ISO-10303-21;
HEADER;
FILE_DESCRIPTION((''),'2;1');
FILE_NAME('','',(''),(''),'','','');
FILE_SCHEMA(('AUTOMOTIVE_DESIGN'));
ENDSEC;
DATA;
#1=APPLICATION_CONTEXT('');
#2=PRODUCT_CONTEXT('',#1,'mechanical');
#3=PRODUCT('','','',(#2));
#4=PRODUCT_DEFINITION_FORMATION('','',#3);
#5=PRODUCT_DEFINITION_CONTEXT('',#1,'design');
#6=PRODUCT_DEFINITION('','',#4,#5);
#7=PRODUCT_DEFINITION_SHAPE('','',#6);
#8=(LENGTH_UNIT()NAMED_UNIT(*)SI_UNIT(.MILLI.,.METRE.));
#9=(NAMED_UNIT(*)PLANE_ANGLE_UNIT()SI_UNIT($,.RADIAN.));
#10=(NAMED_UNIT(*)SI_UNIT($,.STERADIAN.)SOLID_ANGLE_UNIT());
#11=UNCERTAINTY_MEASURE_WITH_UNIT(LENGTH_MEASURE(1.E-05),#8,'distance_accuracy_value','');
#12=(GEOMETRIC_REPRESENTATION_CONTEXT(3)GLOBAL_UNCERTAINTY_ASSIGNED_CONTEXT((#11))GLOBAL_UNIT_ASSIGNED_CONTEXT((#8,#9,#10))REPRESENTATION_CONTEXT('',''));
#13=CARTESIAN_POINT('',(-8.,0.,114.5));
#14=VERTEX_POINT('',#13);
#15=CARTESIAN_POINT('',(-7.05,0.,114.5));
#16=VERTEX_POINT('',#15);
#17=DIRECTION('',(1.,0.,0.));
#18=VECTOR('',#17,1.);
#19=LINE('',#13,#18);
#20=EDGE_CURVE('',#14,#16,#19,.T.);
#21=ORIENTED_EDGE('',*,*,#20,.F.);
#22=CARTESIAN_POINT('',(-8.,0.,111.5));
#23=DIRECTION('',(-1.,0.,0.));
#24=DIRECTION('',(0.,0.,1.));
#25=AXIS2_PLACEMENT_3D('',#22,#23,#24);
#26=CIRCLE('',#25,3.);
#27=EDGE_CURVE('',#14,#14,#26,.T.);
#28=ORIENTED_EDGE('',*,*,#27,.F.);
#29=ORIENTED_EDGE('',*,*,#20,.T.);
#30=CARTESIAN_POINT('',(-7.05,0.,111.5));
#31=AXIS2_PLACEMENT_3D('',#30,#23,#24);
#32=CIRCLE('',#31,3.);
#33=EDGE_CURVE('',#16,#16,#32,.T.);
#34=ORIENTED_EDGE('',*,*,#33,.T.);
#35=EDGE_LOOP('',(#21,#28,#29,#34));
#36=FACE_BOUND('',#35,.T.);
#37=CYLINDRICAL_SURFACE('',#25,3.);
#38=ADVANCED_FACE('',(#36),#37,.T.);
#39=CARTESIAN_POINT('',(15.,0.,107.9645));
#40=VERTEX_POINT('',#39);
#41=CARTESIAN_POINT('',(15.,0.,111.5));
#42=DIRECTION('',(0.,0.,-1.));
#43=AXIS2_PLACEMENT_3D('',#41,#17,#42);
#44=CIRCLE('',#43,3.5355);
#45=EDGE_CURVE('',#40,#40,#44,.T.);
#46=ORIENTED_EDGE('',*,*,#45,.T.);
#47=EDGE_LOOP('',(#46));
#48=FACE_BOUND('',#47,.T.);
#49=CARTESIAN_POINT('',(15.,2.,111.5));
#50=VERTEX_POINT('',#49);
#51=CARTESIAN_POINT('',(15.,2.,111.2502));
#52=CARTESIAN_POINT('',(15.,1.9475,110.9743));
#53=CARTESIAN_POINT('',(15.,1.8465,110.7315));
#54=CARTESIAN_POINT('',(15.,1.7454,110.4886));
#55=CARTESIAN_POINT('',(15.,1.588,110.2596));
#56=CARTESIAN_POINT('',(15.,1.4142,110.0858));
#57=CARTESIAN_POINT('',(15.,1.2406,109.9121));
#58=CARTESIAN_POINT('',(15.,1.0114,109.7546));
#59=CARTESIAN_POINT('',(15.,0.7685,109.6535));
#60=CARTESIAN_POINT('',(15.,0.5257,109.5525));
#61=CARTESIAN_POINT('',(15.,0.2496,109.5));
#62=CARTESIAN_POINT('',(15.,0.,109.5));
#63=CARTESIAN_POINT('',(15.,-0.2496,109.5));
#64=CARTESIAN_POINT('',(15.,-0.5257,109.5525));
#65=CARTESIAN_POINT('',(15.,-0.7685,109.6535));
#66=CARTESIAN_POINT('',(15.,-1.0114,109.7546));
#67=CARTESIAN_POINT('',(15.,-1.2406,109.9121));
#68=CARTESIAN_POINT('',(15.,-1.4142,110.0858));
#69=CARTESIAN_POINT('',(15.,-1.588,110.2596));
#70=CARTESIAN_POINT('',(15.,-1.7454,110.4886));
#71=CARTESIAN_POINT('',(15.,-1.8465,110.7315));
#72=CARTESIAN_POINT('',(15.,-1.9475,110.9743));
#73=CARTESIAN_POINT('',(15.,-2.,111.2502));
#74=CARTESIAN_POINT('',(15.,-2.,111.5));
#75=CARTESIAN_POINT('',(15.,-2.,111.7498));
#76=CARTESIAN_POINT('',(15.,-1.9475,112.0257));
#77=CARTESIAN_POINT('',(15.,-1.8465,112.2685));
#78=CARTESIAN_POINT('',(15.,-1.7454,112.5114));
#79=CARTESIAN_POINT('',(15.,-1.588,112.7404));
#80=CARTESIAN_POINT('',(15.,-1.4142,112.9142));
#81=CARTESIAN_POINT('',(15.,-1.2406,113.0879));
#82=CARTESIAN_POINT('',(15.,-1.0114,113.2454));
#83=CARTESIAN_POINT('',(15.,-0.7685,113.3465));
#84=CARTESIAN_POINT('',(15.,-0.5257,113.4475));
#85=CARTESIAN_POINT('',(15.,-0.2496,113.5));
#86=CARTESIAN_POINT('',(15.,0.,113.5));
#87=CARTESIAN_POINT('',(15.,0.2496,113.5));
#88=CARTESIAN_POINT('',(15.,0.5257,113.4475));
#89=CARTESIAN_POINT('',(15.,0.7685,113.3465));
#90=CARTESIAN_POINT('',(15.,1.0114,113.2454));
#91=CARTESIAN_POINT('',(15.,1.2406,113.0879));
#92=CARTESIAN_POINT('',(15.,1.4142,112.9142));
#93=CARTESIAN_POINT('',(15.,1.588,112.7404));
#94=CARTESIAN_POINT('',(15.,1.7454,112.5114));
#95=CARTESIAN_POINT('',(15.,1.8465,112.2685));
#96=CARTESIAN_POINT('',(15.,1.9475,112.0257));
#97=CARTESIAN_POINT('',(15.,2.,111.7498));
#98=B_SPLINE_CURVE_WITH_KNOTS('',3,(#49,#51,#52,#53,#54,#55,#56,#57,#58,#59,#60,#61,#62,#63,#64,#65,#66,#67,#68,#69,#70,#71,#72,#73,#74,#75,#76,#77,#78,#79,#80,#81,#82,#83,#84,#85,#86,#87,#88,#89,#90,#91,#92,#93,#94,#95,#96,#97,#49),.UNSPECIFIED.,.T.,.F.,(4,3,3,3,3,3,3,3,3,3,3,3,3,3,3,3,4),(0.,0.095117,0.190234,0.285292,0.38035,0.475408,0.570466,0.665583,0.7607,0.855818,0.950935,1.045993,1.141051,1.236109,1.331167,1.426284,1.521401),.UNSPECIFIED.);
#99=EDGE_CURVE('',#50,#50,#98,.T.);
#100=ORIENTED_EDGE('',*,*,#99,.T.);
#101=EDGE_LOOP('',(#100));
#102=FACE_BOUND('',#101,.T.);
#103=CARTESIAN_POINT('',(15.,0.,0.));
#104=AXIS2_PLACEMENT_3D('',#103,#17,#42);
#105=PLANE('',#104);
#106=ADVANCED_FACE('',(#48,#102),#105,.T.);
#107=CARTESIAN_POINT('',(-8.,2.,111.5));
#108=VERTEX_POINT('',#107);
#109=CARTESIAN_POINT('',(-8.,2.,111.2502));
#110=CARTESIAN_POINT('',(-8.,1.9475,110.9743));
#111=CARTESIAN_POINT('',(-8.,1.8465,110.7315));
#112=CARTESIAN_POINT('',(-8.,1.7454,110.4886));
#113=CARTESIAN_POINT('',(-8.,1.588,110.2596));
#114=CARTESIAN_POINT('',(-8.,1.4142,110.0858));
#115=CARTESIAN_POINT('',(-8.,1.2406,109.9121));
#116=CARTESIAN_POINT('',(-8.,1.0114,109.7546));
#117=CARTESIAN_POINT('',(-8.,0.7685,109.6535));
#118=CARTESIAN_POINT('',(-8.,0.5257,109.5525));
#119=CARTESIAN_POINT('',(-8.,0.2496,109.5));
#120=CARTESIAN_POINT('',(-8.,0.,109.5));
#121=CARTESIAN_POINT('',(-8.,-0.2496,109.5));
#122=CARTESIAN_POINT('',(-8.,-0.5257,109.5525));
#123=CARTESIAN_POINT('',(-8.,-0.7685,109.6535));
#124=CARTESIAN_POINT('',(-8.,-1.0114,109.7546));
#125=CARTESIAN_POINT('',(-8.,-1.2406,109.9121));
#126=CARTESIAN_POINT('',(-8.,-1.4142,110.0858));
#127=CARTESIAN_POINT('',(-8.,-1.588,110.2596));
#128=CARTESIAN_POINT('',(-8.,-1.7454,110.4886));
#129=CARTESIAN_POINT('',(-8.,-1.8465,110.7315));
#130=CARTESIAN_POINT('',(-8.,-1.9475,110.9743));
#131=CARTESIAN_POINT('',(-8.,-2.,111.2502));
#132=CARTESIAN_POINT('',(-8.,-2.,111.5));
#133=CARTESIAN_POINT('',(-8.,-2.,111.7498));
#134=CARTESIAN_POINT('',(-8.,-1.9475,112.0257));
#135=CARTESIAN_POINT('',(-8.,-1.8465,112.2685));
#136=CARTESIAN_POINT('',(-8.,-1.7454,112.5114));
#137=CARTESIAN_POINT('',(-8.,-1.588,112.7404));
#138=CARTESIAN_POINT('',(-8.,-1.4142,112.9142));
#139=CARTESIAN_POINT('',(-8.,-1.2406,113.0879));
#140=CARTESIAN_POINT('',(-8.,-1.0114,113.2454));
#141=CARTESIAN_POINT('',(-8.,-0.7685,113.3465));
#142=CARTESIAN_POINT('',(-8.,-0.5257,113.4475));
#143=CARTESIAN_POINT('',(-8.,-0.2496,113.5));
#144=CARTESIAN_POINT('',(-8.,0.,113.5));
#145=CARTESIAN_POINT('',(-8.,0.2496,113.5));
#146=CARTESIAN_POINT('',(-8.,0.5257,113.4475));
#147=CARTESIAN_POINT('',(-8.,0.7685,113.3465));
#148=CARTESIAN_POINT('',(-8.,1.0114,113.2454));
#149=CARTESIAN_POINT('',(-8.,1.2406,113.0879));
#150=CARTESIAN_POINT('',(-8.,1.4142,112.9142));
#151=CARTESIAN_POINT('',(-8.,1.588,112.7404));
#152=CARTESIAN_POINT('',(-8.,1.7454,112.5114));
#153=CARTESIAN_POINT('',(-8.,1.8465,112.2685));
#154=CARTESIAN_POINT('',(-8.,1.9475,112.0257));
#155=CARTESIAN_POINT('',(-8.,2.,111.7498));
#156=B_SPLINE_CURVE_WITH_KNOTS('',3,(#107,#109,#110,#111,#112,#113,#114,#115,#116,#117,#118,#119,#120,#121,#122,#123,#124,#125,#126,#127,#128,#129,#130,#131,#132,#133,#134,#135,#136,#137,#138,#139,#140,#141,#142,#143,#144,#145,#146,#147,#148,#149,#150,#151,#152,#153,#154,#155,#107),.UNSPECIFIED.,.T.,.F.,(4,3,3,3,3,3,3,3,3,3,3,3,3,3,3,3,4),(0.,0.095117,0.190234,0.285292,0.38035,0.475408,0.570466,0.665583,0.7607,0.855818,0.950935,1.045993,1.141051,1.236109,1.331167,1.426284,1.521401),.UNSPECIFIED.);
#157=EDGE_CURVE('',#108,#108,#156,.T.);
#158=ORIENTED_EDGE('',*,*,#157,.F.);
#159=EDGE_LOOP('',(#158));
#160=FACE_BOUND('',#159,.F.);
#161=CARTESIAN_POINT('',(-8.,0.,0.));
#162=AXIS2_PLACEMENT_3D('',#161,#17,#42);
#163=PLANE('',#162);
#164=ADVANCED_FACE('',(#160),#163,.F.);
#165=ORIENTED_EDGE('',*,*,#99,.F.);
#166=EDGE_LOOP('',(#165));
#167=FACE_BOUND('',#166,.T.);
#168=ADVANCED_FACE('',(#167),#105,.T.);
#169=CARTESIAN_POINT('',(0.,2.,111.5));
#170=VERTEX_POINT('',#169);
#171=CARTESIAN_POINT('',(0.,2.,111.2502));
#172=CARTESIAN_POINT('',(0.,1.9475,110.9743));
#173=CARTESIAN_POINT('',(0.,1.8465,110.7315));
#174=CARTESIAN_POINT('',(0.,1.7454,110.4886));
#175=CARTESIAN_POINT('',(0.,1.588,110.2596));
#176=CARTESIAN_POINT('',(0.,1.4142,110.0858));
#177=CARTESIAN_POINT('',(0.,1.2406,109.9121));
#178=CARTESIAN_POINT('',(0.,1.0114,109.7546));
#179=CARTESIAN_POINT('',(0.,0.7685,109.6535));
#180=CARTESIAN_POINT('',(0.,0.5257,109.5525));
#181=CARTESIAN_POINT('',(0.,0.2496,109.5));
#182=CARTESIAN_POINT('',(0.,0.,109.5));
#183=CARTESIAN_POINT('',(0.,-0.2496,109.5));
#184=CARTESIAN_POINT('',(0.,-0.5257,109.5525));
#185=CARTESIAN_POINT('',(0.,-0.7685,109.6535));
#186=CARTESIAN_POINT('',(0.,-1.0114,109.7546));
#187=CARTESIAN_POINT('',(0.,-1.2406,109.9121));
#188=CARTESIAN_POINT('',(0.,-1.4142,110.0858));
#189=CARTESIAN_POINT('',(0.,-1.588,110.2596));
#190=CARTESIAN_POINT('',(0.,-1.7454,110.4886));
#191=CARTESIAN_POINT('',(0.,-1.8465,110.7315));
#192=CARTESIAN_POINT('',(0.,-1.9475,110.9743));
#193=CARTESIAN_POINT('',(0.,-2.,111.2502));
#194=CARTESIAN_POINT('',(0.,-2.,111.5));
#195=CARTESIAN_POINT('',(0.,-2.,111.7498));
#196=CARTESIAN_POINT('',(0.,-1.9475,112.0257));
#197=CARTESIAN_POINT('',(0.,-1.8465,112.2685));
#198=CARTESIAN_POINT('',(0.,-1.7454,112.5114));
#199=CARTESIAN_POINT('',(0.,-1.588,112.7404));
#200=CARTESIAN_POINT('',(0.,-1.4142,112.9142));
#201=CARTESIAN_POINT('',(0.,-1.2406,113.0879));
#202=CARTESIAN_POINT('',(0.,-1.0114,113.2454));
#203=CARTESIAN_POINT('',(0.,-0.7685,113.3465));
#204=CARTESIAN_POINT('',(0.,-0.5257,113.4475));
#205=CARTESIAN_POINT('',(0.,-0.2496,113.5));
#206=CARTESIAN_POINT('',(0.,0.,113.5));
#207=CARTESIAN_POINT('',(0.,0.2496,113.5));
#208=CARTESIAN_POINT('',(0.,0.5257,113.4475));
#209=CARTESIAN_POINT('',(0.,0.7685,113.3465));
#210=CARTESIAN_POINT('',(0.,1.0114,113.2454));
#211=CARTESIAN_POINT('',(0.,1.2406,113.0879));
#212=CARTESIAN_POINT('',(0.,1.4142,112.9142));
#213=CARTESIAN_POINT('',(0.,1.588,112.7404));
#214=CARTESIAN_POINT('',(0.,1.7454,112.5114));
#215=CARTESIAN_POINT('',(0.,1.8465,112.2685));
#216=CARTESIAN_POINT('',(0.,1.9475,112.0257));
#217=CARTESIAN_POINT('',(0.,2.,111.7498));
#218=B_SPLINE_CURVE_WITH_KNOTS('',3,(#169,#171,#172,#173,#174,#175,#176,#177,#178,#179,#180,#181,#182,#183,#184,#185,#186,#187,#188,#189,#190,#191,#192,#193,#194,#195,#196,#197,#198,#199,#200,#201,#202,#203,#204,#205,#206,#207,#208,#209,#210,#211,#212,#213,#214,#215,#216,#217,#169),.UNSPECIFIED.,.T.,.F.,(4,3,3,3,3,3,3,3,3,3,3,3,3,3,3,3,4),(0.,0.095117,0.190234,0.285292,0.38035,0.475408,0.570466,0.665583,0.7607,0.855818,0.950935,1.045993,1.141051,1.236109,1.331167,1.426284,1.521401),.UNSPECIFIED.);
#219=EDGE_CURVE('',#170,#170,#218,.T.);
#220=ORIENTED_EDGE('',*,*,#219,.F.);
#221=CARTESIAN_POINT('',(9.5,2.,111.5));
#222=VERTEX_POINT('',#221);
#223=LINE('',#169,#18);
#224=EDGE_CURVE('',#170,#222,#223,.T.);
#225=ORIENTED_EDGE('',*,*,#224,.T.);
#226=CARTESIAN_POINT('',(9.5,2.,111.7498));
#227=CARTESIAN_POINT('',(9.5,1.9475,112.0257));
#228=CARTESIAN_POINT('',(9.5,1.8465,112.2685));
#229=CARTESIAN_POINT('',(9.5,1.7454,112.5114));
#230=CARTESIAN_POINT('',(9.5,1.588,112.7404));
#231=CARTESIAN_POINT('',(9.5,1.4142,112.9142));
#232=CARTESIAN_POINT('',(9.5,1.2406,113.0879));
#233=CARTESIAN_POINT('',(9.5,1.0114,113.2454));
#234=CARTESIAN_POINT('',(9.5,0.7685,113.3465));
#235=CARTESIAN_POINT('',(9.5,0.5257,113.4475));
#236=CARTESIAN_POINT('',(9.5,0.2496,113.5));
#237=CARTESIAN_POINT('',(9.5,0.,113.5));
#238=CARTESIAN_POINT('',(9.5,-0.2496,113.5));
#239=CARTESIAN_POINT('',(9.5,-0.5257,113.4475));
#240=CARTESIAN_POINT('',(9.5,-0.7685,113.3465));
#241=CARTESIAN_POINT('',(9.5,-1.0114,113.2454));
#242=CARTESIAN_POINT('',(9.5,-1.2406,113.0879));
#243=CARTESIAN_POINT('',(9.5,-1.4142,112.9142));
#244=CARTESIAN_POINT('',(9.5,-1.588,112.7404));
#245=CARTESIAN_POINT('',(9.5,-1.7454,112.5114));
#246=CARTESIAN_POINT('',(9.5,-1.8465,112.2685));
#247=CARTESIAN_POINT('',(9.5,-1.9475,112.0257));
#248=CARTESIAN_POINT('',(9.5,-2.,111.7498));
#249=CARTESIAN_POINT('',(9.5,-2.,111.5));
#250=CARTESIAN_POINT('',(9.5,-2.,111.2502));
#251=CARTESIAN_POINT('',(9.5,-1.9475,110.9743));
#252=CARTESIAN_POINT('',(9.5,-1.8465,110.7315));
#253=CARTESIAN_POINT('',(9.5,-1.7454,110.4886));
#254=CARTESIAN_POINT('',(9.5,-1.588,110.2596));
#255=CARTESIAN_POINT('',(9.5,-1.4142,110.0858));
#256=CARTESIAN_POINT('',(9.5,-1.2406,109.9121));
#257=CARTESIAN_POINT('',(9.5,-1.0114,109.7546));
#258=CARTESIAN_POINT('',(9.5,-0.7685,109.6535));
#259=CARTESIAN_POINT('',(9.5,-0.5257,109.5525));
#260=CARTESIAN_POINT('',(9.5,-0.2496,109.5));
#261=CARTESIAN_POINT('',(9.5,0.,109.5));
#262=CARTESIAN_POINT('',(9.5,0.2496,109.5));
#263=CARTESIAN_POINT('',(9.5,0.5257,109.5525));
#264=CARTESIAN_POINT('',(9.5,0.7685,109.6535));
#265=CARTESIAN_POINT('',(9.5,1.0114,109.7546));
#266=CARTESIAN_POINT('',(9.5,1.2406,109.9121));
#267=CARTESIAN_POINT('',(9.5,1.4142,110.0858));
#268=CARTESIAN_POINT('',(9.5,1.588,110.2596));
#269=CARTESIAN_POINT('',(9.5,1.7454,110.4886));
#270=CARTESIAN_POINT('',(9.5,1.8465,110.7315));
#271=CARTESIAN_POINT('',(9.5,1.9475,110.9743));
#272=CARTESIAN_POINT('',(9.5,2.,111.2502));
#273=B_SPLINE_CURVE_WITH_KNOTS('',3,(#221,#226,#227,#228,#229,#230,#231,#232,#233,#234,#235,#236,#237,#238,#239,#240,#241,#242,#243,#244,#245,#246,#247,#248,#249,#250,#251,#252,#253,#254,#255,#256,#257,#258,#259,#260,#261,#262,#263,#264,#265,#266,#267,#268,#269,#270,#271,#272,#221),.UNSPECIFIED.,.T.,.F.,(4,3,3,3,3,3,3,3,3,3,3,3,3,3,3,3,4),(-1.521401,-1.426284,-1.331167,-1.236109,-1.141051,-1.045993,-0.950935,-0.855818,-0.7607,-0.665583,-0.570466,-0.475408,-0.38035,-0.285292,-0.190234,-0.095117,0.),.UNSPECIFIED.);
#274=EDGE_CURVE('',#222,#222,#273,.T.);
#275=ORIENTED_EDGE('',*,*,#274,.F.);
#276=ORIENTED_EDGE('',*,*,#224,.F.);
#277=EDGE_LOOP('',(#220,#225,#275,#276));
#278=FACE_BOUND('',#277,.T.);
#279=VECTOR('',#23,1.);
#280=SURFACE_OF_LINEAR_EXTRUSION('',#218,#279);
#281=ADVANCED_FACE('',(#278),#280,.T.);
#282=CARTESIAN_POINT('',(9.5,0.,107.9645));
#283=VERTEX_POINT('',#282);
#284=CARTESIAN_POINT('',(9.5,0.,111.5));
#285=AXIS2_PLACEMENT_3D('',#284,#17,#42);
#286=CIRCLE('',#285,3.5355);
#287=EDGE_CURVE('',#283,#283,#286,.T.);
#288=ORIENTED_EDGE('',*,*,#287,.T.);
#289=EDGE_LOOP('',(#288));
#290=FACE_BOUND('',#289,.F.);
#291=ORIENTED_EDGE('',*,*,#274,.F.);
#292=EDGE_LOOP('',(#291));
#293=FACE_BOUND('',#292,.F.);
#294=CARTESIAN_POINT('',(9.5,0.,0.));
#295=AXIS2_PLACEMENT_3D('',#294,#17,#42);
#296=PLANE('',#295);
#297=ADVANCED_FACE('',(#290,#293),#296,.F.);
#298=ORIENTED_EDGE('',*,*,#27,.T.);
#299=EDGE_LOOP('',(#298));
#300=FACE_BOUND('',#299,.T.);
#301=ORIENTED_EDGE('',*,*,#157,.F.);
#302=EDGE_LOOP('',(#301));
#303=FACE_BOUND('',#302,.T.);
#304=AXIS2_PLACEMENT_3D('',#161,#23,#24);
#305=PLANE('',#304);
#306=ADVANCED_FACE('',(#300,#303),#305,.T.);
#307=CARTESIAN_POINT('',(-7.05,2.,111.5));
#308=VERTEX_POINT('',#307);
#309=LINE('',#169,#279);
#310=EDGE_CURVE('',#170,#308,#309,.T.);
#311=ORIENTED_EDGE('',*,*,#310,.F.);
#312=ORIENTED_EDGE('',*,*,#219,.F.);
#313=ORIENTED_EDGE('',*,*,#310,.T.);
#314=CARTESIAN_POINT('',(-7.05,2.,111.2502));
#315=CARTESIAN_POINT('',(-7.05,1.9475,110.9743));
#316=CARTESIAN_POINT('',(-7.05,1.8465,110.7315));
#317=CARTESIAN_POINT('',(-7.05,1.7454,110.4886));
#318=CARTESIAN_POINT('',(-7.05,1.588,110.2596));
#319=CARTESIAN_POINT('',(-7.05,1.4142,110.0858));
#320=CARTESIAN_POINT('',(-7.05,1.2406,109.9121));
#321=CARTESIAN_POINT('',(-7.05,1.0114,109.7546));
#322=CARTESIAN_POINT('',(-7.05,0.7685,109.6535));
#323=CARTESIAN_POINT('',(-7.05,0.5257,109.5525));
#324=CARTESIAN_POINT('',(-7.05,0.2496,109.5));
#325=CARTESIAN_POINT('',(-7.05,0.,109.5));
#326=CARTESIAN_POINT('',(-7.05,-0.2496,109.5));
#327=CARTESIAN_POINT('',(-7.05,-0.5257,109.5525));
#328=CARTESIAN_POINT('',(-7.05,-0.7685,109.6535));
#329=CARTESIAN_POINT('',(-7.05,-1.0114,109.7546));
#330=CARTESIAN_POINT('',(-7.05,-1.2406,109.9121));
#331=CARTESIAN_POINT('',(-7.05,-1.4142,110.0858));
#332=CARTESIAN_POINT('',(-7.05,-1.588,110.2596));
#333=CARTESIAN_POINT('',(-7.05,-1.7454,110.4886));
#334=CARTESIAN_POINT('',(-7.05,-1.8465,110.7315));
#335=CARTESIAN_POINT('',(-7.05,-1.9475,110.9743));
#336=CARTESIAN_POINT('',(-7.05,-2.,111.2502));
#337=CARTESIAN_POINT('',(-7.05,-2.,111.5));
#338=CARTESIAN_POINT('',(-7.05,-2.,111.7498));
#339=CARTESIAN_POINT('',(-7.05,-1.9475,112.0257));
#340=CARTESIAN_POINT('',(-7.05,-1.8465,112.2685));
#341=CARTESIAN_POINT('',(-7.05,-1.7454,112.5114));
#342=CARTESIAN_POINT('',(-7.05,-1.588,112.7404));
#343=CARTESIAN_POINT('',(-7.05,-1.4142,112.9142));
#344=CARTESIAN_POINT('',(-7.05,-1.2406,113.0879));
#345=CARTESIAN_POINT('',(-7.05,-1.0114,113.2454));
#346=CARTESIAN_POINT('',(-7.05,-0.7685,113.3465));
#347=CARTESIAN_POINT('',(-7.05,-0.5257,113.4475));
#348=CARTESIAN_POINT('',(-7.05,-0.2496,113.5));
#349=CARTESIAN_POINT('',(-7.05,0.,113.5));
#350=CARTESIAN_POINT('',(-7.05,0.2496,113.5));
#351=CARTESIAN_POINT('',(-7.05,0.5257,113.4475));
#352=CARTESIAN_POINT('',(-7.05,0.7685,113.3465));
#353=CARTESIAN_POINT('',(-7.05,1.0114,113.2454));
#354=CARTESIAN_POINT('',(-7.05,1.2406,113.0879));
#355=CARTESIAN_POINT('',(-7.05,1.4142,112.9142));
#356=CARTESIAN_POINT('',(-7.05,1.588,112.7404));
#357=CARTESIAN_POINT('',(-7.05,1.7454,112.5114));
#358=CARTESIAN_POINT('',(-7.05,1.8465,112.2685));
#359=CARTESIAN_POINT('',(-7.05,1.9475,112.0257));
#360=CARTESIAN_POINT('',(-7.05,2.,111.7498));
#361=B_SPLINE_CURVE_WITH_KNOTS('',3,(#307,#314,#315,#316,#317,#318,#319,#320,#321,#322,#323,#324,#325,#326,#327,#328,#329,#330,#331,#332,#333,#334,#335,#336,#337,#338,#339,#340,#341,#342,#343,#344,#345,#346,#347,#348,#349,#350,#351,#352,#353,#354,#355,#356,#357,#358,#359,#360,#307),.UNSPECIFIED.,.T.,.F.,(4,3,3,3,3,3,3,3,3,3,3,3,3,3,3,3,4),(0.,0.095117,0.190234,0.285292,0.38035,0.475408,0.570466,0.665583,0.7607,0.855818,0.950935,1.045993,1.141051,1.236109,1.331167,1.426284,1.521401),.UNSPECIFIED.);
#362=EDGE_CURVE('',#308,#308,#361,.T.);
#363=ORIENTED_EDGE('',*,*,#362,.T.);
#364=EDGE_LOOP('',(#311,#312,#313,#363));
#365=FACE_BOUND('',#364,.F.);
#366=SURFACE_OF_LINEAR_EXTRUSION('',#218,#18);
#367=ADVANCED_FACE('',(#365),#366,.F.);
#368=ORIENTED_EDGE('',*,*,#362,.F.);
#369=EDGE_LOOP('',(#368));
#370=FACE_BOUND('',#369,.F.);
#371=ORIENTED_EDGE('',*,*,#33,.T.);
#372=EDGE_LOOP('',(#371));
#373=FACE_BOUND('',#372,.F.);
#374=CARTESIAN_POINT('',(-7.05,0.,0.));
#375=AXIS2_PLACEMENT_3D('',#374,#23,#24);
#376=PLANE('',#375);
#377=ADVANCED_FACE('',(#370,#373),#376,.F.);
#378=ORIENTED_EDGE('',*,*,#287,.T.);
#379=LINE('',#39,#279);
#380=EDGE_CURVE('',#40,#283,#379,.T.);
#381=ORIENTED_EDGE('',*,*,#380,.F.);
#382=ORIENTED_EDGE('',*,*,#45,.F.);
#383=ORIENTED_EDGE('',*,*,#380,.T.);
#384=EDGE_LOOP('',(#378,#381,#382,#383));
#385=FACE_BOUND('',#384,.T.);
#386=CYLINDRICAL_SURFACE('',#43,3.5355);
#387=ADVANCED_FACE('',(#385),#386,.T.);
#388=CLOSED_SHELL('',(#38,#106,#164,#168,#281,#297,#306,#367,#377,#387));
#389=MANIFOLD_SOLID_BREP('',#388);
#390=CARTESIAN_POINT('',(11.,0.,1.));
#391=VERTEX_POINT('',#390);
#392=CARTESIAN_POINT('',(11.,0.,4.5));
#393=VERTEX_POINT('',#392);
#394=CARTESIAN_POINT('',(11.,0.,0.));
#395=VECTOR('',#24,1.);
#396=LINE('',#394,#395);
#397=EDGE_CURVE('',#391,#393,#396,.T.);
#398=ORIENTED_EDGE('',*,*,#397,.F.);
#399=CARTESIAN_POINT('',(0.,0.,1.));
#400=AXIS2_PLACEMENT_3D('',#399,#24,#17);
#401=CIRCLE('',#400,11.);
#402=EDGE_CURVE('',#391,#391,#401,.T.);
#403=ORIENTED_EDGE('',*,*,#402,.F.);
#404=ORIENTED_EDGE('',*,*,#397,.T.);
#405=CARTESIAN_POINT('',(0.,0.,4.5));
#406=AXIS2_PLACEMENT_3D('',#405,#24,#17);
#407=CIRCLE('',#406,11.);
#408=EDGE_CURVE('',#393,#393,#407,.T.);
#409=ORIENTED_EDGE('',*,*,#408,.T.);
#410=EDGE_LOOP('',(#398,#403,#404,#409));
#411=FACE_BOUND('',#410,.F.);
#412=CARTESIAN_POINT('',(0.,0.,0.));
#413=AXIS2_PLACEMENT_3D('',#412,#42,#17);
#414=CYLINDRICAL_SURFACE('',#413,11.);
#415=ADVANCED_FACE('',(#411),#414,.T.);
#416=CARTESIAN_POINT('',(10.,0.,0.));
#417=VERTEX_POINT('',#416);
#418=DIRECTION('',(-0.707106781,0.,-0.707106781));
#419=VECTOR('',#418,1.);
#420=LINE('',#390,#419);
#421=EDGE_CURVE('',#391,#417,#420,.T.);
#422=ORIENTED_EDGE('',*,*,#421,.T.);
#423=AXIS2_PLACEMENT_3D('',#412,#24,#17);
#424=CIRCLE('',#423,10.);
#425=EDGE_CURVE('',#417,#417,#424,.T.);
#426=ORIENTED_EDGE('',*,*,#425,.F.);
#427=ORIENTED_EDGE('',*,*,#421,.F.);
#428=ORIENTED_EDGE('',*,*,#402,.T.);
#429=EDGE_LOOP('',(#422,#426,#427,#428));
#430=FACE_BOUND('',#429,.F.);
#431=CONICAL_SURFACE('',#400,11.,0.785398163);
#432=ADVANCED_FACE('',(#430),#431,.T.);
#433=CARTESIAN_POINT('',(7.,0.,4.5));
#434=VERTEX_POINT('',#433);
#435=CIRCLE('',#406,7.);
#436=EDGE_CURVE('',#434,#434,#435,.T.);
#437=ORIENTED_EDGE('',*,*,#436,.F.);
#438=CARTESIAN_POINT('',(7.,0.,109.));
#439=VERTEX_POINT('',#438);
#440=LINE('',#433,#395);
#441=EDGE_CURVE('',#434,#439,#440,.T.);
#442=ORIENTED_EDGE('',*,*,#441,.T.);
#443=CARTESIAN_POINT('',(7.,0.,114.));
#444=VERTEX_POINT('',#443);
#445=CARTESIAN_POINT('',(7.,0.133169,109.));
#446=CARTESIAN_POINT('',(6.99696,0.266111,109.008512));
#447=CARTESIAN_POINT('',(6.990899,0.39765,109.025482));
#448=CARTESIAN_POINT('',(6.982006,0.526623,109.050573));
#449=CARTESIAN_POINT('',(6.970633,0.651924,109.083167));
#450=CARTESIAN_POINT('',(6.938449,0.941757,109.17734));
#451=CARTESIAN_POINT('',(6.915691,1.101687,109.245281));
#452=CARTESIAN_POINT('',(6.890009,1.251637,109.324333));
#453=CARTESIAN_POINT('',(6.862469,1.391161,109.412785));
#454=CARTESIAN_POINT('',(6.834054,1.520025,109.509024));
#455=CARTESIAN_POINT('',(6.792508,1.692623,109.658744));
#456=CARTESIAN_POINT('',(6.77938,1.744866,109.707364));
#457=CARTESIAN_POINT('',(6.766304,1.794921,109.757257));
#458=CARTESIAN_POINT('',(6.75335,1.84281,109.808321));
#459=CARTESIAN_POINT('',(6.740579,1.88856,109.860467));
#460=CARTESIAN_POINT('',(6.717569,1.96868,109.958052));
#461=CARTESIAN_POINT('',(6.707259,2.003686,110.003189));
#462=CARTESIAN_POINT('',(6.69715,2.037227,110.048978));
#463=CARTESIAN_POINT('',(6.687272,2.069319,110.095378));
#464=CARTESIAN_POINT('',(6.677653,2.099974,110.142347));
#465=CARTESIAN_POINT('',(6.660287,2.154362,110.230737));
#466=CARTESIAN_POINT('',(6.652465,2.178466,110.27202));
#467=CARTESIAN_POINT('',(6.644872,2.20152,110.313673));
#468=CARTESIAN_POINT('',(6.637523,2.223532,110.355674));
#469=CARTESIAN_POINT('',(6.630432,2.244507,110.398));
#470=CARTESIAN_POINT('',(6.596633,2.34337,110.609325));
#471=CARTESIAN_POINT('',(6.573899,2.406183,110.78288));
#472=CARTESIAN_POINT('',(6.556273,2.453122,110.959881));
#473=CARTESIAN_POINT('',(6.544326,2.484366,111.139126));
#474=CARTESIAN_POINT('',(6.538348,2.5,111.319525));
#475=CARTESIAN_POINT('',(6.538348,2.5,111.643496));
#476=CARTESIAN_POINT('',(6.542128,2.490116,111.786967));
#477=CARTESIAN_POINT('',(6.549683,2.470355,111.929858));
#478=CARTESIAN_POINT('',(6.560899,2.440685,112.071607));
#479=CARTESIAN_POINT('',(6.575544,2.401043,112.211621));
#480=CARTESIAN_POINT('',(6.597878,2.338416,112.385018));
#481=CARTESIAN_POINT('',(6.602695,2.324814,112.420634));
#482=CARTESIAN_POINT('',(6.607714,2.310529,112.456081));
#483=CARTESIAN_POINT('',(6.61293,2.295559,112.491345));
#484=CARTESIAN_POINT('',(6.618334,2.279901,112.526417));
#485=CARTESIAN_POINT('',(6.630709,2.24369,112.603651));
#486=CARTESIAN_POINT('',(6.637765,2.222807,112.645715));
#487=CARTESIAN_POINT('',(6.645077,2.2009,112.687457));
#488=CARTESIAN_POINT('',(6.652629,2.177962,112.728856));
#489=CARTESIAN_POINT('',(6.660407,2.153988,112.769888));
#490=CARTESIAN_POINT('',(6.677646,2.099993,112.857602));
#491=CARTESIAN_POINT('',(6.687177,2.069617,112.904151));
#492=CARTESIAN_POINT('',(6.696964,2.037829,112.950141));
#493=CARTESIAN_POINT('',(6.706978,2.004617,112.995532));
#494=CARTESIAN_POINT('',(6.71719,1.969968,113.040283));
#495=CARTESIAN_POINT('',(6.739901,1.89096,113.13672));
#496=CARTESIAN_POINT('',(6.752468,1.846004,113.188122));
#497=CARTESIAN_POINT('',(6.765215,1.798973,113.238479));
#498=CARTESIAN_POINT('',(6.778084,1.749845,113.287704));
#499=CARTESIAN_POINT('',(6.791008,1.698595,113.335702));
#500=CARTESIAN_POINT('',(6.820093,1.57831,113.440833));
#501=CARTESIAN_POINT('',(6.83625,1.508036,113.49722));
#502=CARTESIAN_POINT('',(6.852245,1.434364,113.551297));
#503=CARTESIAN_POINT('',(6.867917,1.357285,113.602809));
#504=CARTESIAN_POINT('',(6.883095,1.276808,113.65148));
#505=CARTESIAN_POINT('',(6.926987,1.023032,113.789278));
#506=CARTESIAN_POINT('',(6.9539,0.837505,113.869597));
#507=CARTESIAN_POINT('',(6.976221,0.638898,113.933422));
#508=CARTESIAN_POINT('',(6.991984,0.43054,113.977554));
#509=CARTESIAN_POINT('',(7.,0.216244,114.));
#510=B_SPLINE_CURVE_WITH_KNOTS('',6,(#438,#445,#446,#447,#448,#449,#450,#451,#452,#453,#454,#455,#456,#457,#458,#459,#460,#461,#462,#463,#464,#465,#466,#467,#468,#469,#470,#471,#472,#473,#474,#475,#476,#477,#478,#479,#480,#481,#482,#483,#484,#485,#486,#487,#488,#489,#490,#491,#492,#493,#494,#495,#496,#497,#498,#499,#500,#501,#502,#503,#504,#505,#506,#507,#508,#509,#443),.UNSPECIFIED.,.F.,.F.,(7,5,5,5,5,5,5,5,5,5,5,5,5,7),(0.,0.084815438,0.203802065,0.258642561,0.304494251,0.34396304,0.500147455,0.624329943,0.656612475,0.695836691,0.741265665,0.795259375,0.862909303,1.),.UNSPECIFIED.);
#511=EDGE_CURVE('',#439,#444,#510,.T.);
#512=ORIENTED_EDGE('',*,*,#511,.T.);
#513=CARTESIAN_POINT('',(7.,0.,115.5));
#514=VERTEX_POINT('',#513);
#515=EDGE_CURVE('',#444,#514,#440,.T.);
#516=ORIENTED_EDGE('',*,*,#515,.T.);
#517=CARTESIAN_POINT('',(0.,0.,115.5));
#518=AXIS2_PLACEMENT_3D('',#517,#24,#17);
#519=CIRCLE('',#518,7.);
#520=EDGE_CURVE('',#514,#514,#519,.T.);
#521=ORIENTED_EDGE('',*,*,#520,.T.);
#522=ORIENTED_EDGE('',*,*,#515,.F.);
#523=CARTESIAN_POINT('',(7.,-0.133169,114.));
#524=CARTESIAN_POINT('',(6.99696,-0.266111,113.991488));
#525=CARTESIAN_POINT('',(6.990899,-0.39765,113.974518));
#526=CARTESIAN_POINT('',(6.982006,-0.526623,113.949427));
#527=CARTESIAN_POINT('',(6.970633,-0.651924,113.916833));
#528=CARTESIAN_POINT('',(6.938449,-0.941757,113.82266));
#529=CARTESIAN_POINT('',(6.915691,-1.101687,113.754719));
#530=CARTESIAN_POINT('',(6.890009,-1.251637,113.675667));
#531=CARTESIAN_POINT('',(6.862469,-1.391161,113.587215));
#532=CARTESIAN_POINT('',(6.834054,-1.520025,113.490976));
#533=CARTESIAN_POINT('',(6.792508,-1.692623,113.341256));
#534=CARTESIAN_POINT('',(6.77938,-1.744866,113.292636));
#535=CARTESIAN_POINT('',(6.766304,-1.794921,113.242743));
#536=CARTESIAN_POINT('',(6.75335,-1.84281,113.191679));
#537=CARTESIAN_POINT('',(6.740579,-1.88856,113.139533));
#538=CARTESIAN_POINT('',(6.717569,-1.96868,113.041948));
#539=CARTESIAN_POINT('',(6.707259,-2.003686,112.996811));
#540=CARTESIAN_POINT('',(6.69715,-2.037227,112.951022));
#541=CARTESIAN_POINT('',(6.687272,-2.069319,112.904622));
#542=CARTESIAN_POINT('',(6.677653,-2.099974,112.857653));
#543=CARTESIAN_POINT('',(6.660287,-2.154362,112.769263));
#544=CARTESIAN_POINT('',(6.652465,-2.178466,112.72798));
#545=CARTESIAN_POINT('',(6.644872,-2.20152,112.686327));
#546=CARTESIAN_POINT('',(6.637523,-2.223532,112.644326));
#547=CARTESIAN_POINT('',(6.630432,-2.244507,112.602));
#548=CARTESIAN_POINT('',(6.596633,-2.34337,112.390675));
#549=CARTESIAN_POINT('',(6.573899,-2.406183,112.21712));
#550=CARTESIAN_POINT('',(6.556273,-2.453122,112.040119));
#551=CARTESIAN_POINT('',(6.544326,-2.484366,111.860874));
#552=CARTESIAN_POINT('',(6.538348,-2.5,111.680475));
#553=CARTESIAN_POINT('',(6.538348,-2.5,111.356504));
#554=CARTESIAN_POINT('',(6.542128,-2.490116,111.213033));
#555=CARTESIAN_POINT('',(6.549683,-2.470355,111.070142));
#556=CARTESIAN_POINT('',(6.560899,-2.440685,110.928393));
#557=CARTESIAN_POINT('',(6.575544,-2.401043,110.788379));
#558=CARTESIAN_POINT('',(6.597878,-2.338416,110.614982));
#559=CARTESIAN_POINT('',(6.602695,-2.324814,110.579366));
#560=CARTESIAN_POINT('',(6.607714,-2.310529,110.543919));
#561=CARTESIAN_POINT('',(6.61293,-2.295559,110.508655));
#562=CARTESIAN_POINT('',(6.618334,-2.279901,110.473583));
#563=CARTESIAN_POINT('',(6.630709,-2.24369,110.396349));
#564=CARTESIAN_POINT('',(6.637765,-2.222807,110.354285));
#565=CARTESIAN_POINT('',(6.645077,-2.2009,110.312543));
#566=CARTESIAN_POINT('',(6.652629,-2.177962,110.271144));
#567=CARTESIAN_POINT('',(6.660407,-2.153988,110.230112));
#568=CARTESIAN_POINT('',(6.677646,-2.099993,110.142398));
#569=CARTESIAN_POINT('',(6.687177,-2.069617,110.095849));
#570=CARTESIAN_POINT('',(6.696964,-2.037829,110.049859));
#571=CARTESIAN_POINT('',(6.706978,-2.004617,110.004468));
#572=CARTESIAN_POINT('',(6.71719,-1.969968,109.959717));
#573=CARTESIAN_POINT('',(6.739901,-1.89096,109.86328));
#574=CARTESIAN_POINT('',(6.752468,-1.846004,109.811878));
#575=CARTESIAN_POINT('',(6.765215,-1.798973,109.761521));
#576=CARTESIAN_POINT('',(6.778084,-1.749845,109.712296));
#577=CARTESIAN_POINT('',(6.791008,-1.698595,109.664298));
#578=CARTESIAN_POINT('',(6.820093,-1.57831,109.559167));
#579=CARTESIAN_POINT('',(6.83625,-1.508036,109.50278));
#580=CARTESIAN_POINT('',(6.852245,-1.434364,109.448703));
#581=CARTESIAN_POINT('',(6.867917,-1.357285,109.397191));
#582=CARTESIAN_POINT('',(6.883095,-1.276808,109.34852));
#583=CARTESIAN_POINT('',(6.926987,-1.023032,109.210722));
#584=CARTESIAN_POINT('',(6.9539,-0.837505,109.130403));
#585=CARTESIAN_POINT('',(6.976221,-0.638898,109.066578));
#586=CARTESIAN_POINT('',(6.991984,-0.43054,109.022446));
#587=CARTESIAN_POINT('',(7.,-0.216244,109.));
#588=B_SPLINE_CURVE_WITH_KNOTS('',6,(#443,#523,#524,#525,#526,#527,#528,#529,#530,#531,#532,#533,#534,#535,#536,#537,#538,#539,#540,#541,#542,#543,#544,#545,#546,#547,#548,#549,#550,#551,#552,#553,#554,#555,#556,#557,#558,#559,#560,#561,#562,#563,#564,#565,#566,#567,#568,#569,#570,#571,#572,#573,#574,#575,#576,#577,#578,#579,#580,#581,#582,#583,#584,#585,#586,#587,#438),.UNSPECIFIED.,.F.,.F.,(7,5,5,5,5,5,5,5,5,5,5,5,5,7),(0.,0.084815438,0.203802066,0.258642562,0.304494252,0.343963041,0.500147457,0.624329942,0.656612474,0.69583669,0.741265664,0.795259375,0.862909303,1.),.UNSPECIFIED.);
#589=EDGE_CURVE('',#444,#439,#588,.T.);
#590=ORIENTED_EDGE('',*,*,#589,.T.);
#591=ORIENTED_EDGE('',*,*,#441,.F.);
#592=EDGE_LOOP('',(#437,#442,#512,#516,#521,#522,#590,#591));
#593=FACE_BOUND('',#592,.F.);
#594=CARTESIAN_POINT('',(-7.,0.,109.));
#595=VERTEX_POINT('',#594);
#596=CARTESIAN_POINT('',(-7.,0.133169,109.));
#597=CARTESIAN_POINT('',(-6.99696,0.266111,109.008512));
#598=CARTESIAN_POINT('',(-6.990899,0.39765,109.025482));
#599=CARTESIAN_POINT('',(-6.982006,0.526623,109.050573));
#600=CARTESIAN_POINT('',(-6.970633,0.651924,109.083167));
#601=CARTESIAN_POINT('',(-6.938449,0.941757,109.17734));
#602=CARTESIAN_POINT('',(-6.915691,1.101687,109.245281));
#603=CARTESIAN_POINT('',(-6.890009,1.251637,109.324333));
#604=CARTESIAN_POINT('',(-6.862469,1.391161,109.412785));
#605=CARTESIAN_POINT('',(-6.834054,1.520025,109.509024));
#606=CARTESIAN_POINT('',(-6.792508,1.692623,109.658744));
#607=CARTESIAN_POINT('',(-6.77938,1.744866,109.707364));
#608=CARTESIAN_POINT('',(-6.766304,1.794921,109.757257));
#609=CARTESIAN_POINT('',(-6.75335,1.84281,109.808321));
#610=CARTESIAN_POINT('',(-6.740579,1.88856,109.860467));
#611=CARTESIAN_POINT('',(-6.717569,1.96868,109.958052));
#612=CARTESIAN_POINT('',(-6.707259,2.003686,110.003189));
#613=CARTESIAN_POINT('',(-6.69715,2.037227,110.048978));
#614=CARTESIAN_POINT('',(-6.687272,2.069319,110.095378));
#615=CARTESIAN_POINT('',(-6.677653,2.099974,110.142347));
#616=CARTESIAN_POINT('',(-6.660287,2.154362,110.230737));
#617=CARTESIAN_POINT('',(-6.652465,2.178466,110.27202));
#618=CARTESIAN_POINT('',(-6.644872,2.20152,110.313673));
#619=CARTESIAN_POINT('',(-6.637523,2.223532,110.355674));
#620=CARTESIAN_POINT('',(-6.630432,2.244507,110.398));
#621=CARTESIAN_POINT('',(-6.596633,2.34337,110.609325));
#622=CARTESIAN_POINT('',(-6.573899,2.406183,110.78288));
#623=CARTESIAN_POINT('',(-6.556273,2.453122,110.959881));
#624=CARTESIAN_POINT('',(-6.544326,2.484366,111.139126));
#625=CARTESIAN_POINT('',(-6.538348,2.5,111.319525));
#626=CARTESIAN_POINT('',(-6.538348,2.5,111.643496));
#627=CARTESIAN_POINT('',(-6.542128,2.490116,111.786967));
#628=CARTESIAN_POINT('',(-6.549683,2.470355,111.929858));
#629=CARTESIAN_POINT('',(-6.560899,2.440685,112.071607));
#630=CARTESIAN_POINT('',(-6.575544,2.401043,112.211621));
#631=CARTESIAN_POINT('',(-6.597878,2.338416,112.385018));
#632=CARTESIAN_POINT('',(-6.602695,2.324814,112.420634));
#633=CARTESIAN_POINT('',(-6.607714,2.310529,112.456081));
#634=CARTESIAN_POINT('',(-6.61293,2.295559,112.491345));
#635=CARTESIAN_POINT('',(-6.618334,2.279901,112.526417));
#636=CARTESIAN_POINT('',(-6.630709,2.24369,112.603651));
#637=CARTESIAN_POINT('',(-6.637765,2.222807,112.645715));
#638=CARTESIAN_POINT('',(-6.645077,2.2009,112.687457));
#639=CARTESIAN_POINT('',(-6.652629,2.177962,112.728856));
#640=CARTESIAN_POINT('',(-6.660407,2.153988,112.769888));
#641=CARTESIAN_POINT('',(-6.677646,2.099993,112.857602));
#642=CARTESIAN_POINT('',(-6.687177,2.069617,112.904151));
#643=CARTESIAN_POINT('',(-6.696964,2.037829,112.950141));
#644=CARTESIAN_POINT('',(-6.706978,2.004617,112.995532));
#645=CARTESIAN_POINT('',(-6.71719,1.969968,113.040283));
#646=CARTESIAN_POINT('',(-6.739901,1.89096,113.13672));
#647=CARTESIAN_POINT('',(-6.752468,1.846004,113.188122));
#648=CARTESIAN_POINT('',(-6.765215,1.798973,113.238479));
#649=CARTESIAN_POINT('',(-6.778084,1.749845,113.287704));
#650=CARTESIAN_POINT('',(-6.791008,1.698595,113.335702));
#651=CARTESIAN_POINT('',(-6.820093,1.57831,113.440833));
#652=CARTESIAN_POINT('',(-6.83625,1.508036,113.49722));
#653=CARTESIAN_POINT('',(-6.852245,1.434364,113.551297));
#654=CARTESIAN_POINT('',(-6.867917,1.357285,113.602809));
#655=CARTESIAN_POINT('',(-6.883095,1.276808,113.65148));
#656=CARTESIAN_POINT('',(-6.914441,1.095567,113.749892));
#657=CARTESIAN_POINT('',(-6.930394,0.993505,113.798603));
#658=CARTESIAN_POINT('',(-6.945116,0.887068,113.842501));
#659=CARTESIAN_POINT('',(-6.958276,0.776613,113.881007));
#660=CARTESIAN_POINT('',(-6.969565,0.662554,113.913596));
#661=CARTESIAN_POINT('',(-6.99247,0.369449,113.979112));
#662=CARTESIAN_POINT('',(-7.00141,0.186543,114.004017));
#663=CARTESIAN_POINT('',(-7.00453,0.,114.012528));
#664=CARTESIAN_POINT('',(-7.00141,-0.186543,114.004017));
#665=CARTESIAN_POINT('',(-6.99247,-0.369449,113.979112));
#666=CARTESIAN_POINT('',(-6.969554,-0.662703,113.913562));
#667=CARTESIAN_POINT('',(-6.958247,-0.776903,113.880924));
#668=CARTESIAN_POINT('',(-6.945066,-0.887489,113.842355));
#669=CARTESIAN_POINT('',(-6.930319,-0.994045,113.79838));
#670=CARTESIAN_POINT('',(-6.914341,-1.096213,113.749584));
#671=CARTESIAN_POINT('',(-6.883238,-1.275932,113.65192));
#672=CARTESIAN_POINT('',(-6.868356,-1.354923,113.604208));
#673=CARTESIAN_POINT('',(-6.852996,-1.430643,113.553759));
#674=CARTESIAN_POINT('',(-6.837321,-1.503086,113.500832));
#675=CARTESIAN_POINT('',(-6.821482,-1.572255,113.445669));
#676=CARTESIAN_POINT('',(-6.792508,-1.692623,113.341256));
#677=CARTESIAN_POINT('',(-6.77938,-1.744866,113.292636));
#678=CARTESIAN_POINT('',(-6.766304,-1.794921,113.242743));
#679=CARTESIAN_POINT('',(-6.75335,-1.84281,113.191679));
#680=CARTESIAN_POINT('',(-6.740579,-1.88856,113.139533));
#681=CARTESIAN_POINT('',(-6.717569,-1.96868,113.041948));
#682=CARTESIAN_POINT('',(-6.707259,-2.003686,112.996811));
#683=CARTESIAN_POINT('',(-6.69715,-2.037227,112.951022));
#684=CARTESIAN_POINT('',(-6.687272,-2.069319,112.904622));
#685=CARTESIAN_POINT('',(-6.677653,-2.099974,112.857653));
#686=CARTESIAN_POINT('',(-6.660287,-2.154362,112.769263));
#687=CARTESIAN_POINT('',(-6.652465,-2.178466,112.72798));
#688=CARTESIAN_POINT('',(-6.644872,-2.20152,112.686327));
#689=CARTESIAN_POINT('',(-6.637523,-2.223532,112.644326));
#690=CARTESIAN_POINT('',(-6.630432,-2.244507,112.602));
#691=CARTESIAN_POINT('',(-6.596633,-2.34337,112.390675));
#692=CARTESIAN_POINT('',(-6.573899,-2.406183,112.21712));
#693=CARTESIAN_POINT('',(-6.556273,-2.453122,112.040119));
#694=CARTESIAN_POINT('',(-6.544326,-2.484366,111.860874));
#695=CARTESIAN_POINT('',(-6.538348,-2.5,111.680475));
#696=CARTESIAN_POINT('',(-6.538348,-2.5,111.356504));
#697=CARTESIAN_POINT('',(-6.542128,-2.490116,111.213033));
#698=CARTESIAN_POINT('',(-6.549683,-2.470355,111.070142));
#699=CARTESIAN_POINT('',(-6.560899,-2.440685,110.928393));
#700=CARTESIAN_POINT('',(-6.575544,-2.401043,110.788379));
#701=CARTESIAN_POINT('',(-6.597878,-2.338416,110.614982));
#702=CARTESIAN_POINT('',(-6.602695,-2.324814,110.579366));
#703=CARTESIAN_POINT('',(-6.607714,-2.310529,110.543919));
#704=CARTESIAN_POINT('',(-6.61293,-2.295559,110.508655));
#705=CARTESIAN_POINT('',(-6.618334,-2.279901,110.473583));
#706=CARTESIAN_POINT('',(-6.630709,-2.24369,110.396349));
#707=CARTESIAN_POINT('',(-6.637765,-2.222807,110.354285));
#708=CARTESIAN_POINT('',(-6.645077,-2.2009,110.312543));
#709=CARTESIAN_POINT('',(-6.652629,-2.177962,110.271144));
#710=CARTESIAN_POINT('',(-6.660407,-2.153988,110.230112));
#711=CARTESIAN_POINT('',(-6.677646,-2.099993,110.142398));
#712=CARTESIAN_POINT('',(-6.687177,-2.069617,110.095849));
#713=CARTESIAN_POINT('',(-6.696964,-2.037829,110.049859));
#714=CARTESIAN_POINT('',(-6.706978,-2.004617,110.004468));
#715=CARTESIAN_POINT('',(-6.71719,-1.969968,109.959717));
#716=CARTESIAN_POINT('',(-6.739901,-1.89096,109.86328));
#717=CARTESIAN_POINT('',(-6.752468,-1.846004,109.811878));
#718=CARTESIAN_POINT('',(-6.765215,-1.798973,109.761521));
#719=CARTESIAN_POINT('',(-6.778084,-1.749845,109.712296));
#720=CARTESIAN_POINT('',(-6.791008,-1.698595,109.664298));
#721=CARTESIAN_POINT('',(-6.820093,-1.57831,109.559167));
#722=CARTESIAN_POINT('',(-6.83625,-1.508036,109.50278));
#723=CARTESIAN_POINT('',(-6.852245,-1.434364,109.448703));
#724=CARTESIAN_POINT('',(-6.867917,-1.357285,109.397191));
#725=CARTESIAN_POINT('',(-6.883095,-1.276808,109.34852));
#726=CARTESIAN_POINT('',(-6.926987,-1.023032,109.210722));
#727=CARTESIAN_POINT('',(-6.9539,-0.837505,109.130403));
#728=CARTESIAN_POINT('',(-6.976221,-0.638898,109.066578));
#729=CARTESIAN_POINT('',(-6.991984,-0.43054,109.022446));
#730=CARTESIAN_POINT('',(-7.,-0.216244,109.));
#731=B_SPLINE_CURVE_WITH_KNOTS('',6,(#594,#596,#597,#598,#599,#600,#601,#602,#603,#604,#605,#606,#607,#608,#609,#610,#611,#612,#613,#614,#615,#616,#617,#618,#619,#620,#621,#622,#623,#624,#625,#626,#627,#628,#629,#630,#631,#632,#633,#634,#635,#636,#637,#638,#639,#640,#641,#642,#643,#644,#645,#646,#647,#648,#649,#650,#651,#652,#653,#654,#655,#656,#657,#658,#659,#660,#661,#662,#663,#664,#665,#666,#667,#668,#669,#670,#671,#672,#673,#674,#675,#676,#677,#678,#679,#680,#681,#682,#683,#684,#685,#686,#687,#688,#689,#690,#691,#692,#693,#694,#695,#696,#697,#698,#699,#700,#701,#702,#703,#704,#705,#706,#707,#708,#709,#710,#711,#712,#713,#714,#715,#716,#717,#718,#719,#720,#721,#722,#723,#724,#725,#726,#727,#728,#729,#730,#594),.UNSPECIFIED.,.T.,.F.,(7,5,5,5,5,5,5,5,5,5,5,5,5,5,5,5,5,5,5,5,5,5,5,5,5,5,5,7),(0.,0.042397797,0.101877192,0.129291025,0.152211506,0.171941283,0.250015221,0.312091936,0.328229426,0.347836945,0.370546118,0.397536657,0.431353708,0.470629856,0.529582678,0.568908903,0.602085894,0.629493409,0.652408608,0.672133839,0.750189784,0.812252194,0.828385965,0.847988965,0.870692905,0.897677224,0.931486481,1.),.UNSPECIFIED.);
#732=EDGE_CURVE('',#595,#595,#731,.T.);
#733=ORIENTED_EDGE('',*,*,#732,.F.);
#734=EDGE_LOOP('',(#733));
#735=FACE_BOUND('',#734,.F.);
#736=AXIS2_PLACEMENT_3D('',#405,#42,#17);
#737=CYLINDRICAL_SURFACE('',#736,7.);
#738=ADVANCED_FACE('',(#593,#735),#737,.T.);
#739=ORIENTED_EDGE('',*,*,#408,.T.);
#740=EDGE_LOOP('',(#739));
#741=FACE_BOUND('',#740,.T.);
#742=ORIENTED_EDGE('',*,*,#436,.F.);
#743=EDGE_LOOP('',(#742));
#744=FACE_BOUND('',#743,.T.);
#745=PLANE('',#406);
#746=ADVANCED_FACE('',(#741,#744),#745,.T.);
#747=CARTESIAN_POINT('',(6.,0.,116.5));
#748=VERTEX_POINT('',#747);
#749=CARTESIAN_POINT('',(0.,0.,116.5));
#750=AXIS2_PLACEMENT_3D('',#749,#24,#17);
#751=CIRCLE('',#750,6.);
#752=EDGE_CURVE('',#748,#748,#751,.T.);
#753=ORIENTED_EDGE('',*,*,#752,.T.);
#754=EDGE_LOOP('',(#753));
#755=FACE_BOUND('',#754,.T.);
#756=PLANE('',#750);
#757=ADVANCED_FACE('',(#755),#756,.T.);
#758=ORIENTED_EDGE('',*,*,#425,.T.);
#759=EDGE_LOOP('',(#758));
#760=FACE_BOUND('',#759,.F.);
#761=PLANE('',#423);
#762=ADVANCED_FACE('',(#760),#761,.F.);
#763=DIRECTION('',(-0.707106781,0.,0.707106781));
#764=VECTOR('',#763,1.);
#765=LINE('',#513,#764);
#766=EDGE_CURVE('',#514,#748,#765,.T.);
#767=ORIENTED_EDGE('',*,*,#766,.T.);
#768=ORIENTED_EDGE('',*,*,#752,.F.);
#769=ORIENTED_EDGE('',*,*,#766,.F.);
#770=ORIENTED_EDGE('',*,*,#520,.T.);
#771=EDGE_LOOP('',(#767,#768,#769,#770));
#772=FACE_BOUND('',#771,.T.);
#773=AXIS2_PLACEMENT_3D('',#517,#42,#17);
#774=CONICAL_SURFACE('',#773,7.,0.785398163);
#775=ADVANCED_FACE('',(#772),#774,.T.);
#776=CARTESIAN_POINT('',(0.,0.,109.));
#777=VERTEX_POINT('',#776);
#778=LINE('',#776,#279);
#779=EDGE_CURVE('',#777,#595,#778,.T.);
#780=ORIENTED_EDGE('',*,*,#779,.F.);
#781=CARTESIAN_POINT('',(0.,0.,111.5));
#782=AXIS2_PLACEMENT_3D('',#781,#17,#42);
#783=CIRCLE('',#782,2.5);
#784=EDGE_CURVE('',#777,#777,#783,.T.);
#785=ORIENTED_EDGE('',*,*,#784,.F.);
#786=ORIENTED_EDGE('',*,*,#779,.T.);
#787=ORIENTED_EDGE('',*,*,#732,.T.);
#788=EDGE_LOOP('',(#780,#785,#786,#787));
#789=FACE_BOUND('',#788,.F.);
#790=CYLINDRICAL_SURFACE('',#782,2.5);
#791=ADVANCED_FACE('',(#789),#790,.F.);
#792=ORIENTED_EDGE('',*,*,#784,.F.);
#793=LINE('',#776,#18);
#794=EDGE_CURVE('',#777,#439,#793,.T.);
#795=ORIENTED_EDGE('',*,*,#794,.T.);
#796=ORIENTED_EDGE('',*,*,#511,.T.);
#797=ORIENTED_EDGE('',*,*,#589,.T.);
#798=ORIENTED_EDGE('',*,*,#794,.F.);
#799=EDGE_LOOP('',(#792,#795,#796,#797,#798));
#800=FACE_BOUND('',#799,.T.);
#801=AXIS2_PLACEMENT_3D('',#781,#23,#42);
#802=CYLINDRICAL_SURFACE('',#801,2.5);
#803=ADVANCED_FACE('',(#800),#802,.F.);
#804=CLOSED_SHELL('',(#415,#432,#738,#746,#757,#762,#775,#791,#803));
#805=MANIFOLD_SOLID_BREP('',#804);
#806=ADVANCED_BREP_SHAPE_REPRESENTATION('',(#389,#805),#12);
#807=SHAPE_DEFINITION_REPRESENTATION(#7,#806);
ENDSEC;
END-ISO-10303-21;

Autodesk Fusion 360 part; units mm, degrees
sketch "Sketch1" plane through (0, 0, 0) normal (0, 0, 1) x (1, 0, 0)
  circle A0 centre (0, 0) radius 11
  dimension "d1" = 22
extrude "Extrude1" add sketch "Sketch1" along normal blind 4.5 makes body 1
sketch "Sketch2" plane through (0, 0, 4.5) normal (0, 0, 1) x (1, 0, 0)
  circle A0 centre (0, 0) radius 11
  circle A1 centre (0, 0) radius 7
  dimension "d4" = 14
extrude "Extrude2" add sketch "Sketch2" along normal blind 112 contours A1 bodies 1
sketch "Sketch3" plane through (0, 0, 0) normal (1, 0, 0) x (0, 0, -1)
  line L0 (-116.5, 0) -> (-111.5, 0) construction
  circle A0 centre (-111.5, 0) radius 2.5
  point P0 (-116.5, 0)
  dimension "d7" = 5
  dimension "d8" = 5
extrude "Extrude3" cut sketch "Sketch3" along normal mid plane 50 bodies 1
chamfer "Chamfer1" distance 1 angle 45 1 edges at (-6.5263, -2.5313, 116.5) on bodies 1
chamfer "Chamfer2" distance 1 angle 45 1 edges at (-10.2556, -3.9778, 0) on bodies 1
sketch "Sketch4" plane through (0, 0, 0) normal (1, 0, 0) x (0, 0, -1)
  spline S0 degree 3 poles (-111.5, 2.5) (-111.1829, 2.5) (-110.8469, 2.4361) (-110.2319, 2.1801) (-109.9527, 1.9882) (-109.5119, 1.5474) (-109.3199, 1.2682) (-109.0639, 0.653) (-109, 0.3169) (-109, -0.3169) (-109.0639, -0.653) (-109.3199, -1.2682) (-109.5119, -1.5474) (-109.9527, -1.9882) (-110.2319, -2.1801) (-110.8469, -2.4361) (-111.1829, -2.5) (-111.8171, -2.5) (-112.1531, -2.4361) (-112.7681, -2.1801) (-113.0473, -1.9882) (-113.4881, -1.5474) (-113.6801, -1.2682) (-113.9361, -0.653) (-114, -0.3169) (-114, 0.3169) (-113.9361, 0.653) (-113.6801, 1.2682) (-113.4881, 1.5474) (-113.0473, 1.9882) (-112.7681, 2.1801) (-112.1531, 2.4361) (-111.8171, 2.5) (-111.5, 2.5) knots 0 0 0 0 0.095117 0.095117 0.190234 0.190234 0.285292 0.285292 0.38035 0.38035 0.475408 0.475408 0.570466 0.570466 0.665583 0.665583 0.7607 0.7607 0.855818 0.855818 0.950935 0.950935 1.045993 1.045993 1.141051 1.141051 1.236109 1.236109 1.331167 1.331167 1.426284 1.426284 1.521401 1.521401 1.521401 1.521401
  spline S1 degree 3 poles (-111.5, 2) (-111.2502, 2) (-110.9743, 1.9475) (-110.7315, 1.8465) (-110.4886, 1.7454) (-110.2596, 1.588) (-110.0858, 1.4142) (-109.9121, 1.2406) (-109.7546, 1.0114) (-109.6535, 0.7685) (-109.5525, 0.5257) (-109.5, 0.2496) (-109.5, 0) (-109.5, -0.2496) (-109.5525, -0.5257) (-109.6535, -0.7685) (-109.7546, -1.0114) (-109.9121, -1.2406) (-110.0858, -1.4142) (-110.2596, -1.588) (-110.4886, -1.7454) (-110.7315, -1.8465) (-110.9743, -1.9475) (-111.2502, -2) (-111.5, -2) (-111.7498, -2) (-112.0257, -1.9475) (-112.2685, -1.8465) (-112.5114, -1.7454) (-112.7404, -1.588) (-112.9142, -1.4142) (-113.0879, -1.2406) (-113.2454, -1.0114) (-113.3465, -0.7685) (-113.4475, -0.5257) (-113.5, -0.2496) (-113.5, 0) (-113.5, 0.2496) (-113.4475, 0.5257) (-113.3465, 0.7685) (-113.2454, 1.0114) (-113.0879, 1.2406) (-112.9142, 1.4142) (-112.7404, 1.588) (-112.5114, 1.7454) (-112.2685, 1.8465) (-112.0257, 1.9475) (-111.7498, 2) (-111.5, 2) knots 0 0 0 0 0.095117 0.095117 0.095117 0.190234 0.190234 0.190234 0.285292 0.285292 0.285292 0.38035 0.38035 0.38035 0.475408 0.475408 0.475408 0.570466 0.570466 0.570466 0.665583 0.665583 0.665583 0.7607 0.7607 0.7607 0.855818 0.855818 0.855818 0.950935 0.950935 0.950935 1.045993 1.045993 1.045993 1.141051 1.141051 1.141051 1.236109 1.236109 1.236109 1.331167 1.331167 1.331167 1.426284 1.426284 1.426284 1.521401 1.521401 1.521401 1.521401
  dimension "d13" = 0.5
extrude "Extrude4" add sketch "Sketch4" along normal blind 15 and the other way blind 8 separate body contours S1 makes body 2
sketch "Sketch6" plane through (-8, 0, 0) normal (-1, 0, 0) x (0, 0, 1)
  spline S0 degree 3 poles (111.5, 2) (111.2502, 2) (110.9743, 1.9475) (110.7315, 1.8465) (110.4886, 1.7454) (110.2596, 1.588) (110.0858, 1.4142) (109.9121, 1.2406) (109.7546, 1.0114) (109.6535, 0.7685) (109.5525, 0.5257) (109.5, 0.2496) (109.5, 0) (109.5, -0.2496) (109.5525, -0.5257) (109.6535, -0.7685) (109.7546, -1.0114) (109.9121, -1.2406) (110.0858, -1.4142) (110.2596, -1.588) (110.4886, -1.7454) (110.7315, -1.8465) (110.9743, -1.9475) (111.2502, -2) (111.5, -2) (111.7498, -2) (112.0257, -1.9475) (112.2685, -1.8465) (112.5114, -1.7454) (112.7404, -1.588) (112.9142, -1.4142) (113.0879, -1.2406) (113.2454, -1.0114) (113.3465, -0.7685) (113.4475, -0.5257) (113.5, -0.2496) (113.5, 0) (113.5, 0.2496) (113.4475, 0.5257) (113.3465, 0.7685) (113.2454, 1.0114) (113.0879, 1.2406) (112.9142, 1.4142) (112.7404, 1.588) (112.5114, 1.7454) (112.2685, 1.8465) (112.0257, 1.9475) (111.7498, 2) (111.5, 2) knots 0 0 0 0 0.095117 0.095117 0.095117 0.190234 0.190234 0.190234 0.285292 0.285292 0.285292 0.38035 0.38035 0.38035 0.475408 0.475408 0.475408 0.570466 0.570466 0.570466 0.665583 0.665583 0.665583 0.7607 0.7607 0.7607 0.855818 0.855818 0.855818 0.950935 0.950935 0.950935 1.045993 1.045993 1.045993 1.141051 1.141051 1.141051 1.236109 1.236109 1.236109 1.331167 1.331167 1.331167 1.426284 1.426284 1.426284 1.521401 1.521401 1.521401 1.521401
  circle A0 centre (111.5, 0) radius 3
  dimension "d18" = 6
extrude "Extrude5" add sketch "Sketch6" against normal blind 0.95 bodies 2
sketch "Sketch7" plane through (15, 0, 0) normal (1, 0, 0) x (0, 0, -1)
  spline S0 degree 3 poles (-111.5, 2) (-111.7498, 2) (-112.0257, 1.9475) (-112.2685, 1.8465) (-112.5114, 1.7454) (-112.7404, 1.588) (-112.9142, 1.4142) (-113.0879, 1.2406) (-113.2454, 1.0114) (-113.3465, 0.7685) (-113.4475, 0.5257) (-113.5, 0.2496) (-113.5, 0) (-113.5, -0.2496) (-113.4475, -0.5257) (-113.3465, -0.7685) (-113.2454, -1.0114) (-113.0879, -1.2406) (-112.9142, -1.4142) (-112.7404, -1.588) (-112.5114, -1.7454) (-112.2685, -1.8465) (-112.0257, -1.9475) (-111.7498, -2) (-111.5, -2) (-111.2502, -2) (-110.9743, -1.9475) (-110.7315, -1.8465) (-110.4886, -1.7454) (-110.2596, -1.588) (-110.0858, -1.4142) (-109.9121, -1.2406) (-109.7546, -1.0114) (-109.6535, -0.7685) (-109.5525, -0.5257) (-109.5, -0.2496) (-109.5, 0) (-109.5, 0.2496) (-109.5525, 0.5257) (-109.6535, 0.7685) (-109.7546, 1.0114) (-109.9121, 1.2406) (-110.0858, 1.4142) (-110.2596, 1.588) (-110.4886, 1.7454) (-110.7315, 1.8465) (-110.9743, 1.9475) (-111.2502, 2) (-111.5, 2) knots -1.521401 -1.521401 -1.521401 -1.521401 -1.426284 -1.426284 -1.426284 -1.331167 -1.331167 -1.331167 -1.236109 -1.236109 -1.236109 -1.141051 -1.141051 -1.141051 -1.045993 -1.045993 -1.045993 -0.950935 -0.950935 -0.950935 -0.855818 -0.855818 -0.855818 -0.7607 -0.7607 -0.7607 -0.665583 -0.665583 -0.665583 -0.570466 -0.570466 -0.570466 -0.475408 -0.475408 -0.475408 -0.38035 -0.38035 -0.38035 -0.285292 -0.285292 -0.285292 -0.190234 -0.190234 -0.190234 -0.095117 -0.095117 -0.095117 0 0 0 0
  circle A0 centre (-111.5, 0) radius 3.5355
extrude "Extrude6" add sketch "Sketch7" against normal blind 5.5 bodies 2
